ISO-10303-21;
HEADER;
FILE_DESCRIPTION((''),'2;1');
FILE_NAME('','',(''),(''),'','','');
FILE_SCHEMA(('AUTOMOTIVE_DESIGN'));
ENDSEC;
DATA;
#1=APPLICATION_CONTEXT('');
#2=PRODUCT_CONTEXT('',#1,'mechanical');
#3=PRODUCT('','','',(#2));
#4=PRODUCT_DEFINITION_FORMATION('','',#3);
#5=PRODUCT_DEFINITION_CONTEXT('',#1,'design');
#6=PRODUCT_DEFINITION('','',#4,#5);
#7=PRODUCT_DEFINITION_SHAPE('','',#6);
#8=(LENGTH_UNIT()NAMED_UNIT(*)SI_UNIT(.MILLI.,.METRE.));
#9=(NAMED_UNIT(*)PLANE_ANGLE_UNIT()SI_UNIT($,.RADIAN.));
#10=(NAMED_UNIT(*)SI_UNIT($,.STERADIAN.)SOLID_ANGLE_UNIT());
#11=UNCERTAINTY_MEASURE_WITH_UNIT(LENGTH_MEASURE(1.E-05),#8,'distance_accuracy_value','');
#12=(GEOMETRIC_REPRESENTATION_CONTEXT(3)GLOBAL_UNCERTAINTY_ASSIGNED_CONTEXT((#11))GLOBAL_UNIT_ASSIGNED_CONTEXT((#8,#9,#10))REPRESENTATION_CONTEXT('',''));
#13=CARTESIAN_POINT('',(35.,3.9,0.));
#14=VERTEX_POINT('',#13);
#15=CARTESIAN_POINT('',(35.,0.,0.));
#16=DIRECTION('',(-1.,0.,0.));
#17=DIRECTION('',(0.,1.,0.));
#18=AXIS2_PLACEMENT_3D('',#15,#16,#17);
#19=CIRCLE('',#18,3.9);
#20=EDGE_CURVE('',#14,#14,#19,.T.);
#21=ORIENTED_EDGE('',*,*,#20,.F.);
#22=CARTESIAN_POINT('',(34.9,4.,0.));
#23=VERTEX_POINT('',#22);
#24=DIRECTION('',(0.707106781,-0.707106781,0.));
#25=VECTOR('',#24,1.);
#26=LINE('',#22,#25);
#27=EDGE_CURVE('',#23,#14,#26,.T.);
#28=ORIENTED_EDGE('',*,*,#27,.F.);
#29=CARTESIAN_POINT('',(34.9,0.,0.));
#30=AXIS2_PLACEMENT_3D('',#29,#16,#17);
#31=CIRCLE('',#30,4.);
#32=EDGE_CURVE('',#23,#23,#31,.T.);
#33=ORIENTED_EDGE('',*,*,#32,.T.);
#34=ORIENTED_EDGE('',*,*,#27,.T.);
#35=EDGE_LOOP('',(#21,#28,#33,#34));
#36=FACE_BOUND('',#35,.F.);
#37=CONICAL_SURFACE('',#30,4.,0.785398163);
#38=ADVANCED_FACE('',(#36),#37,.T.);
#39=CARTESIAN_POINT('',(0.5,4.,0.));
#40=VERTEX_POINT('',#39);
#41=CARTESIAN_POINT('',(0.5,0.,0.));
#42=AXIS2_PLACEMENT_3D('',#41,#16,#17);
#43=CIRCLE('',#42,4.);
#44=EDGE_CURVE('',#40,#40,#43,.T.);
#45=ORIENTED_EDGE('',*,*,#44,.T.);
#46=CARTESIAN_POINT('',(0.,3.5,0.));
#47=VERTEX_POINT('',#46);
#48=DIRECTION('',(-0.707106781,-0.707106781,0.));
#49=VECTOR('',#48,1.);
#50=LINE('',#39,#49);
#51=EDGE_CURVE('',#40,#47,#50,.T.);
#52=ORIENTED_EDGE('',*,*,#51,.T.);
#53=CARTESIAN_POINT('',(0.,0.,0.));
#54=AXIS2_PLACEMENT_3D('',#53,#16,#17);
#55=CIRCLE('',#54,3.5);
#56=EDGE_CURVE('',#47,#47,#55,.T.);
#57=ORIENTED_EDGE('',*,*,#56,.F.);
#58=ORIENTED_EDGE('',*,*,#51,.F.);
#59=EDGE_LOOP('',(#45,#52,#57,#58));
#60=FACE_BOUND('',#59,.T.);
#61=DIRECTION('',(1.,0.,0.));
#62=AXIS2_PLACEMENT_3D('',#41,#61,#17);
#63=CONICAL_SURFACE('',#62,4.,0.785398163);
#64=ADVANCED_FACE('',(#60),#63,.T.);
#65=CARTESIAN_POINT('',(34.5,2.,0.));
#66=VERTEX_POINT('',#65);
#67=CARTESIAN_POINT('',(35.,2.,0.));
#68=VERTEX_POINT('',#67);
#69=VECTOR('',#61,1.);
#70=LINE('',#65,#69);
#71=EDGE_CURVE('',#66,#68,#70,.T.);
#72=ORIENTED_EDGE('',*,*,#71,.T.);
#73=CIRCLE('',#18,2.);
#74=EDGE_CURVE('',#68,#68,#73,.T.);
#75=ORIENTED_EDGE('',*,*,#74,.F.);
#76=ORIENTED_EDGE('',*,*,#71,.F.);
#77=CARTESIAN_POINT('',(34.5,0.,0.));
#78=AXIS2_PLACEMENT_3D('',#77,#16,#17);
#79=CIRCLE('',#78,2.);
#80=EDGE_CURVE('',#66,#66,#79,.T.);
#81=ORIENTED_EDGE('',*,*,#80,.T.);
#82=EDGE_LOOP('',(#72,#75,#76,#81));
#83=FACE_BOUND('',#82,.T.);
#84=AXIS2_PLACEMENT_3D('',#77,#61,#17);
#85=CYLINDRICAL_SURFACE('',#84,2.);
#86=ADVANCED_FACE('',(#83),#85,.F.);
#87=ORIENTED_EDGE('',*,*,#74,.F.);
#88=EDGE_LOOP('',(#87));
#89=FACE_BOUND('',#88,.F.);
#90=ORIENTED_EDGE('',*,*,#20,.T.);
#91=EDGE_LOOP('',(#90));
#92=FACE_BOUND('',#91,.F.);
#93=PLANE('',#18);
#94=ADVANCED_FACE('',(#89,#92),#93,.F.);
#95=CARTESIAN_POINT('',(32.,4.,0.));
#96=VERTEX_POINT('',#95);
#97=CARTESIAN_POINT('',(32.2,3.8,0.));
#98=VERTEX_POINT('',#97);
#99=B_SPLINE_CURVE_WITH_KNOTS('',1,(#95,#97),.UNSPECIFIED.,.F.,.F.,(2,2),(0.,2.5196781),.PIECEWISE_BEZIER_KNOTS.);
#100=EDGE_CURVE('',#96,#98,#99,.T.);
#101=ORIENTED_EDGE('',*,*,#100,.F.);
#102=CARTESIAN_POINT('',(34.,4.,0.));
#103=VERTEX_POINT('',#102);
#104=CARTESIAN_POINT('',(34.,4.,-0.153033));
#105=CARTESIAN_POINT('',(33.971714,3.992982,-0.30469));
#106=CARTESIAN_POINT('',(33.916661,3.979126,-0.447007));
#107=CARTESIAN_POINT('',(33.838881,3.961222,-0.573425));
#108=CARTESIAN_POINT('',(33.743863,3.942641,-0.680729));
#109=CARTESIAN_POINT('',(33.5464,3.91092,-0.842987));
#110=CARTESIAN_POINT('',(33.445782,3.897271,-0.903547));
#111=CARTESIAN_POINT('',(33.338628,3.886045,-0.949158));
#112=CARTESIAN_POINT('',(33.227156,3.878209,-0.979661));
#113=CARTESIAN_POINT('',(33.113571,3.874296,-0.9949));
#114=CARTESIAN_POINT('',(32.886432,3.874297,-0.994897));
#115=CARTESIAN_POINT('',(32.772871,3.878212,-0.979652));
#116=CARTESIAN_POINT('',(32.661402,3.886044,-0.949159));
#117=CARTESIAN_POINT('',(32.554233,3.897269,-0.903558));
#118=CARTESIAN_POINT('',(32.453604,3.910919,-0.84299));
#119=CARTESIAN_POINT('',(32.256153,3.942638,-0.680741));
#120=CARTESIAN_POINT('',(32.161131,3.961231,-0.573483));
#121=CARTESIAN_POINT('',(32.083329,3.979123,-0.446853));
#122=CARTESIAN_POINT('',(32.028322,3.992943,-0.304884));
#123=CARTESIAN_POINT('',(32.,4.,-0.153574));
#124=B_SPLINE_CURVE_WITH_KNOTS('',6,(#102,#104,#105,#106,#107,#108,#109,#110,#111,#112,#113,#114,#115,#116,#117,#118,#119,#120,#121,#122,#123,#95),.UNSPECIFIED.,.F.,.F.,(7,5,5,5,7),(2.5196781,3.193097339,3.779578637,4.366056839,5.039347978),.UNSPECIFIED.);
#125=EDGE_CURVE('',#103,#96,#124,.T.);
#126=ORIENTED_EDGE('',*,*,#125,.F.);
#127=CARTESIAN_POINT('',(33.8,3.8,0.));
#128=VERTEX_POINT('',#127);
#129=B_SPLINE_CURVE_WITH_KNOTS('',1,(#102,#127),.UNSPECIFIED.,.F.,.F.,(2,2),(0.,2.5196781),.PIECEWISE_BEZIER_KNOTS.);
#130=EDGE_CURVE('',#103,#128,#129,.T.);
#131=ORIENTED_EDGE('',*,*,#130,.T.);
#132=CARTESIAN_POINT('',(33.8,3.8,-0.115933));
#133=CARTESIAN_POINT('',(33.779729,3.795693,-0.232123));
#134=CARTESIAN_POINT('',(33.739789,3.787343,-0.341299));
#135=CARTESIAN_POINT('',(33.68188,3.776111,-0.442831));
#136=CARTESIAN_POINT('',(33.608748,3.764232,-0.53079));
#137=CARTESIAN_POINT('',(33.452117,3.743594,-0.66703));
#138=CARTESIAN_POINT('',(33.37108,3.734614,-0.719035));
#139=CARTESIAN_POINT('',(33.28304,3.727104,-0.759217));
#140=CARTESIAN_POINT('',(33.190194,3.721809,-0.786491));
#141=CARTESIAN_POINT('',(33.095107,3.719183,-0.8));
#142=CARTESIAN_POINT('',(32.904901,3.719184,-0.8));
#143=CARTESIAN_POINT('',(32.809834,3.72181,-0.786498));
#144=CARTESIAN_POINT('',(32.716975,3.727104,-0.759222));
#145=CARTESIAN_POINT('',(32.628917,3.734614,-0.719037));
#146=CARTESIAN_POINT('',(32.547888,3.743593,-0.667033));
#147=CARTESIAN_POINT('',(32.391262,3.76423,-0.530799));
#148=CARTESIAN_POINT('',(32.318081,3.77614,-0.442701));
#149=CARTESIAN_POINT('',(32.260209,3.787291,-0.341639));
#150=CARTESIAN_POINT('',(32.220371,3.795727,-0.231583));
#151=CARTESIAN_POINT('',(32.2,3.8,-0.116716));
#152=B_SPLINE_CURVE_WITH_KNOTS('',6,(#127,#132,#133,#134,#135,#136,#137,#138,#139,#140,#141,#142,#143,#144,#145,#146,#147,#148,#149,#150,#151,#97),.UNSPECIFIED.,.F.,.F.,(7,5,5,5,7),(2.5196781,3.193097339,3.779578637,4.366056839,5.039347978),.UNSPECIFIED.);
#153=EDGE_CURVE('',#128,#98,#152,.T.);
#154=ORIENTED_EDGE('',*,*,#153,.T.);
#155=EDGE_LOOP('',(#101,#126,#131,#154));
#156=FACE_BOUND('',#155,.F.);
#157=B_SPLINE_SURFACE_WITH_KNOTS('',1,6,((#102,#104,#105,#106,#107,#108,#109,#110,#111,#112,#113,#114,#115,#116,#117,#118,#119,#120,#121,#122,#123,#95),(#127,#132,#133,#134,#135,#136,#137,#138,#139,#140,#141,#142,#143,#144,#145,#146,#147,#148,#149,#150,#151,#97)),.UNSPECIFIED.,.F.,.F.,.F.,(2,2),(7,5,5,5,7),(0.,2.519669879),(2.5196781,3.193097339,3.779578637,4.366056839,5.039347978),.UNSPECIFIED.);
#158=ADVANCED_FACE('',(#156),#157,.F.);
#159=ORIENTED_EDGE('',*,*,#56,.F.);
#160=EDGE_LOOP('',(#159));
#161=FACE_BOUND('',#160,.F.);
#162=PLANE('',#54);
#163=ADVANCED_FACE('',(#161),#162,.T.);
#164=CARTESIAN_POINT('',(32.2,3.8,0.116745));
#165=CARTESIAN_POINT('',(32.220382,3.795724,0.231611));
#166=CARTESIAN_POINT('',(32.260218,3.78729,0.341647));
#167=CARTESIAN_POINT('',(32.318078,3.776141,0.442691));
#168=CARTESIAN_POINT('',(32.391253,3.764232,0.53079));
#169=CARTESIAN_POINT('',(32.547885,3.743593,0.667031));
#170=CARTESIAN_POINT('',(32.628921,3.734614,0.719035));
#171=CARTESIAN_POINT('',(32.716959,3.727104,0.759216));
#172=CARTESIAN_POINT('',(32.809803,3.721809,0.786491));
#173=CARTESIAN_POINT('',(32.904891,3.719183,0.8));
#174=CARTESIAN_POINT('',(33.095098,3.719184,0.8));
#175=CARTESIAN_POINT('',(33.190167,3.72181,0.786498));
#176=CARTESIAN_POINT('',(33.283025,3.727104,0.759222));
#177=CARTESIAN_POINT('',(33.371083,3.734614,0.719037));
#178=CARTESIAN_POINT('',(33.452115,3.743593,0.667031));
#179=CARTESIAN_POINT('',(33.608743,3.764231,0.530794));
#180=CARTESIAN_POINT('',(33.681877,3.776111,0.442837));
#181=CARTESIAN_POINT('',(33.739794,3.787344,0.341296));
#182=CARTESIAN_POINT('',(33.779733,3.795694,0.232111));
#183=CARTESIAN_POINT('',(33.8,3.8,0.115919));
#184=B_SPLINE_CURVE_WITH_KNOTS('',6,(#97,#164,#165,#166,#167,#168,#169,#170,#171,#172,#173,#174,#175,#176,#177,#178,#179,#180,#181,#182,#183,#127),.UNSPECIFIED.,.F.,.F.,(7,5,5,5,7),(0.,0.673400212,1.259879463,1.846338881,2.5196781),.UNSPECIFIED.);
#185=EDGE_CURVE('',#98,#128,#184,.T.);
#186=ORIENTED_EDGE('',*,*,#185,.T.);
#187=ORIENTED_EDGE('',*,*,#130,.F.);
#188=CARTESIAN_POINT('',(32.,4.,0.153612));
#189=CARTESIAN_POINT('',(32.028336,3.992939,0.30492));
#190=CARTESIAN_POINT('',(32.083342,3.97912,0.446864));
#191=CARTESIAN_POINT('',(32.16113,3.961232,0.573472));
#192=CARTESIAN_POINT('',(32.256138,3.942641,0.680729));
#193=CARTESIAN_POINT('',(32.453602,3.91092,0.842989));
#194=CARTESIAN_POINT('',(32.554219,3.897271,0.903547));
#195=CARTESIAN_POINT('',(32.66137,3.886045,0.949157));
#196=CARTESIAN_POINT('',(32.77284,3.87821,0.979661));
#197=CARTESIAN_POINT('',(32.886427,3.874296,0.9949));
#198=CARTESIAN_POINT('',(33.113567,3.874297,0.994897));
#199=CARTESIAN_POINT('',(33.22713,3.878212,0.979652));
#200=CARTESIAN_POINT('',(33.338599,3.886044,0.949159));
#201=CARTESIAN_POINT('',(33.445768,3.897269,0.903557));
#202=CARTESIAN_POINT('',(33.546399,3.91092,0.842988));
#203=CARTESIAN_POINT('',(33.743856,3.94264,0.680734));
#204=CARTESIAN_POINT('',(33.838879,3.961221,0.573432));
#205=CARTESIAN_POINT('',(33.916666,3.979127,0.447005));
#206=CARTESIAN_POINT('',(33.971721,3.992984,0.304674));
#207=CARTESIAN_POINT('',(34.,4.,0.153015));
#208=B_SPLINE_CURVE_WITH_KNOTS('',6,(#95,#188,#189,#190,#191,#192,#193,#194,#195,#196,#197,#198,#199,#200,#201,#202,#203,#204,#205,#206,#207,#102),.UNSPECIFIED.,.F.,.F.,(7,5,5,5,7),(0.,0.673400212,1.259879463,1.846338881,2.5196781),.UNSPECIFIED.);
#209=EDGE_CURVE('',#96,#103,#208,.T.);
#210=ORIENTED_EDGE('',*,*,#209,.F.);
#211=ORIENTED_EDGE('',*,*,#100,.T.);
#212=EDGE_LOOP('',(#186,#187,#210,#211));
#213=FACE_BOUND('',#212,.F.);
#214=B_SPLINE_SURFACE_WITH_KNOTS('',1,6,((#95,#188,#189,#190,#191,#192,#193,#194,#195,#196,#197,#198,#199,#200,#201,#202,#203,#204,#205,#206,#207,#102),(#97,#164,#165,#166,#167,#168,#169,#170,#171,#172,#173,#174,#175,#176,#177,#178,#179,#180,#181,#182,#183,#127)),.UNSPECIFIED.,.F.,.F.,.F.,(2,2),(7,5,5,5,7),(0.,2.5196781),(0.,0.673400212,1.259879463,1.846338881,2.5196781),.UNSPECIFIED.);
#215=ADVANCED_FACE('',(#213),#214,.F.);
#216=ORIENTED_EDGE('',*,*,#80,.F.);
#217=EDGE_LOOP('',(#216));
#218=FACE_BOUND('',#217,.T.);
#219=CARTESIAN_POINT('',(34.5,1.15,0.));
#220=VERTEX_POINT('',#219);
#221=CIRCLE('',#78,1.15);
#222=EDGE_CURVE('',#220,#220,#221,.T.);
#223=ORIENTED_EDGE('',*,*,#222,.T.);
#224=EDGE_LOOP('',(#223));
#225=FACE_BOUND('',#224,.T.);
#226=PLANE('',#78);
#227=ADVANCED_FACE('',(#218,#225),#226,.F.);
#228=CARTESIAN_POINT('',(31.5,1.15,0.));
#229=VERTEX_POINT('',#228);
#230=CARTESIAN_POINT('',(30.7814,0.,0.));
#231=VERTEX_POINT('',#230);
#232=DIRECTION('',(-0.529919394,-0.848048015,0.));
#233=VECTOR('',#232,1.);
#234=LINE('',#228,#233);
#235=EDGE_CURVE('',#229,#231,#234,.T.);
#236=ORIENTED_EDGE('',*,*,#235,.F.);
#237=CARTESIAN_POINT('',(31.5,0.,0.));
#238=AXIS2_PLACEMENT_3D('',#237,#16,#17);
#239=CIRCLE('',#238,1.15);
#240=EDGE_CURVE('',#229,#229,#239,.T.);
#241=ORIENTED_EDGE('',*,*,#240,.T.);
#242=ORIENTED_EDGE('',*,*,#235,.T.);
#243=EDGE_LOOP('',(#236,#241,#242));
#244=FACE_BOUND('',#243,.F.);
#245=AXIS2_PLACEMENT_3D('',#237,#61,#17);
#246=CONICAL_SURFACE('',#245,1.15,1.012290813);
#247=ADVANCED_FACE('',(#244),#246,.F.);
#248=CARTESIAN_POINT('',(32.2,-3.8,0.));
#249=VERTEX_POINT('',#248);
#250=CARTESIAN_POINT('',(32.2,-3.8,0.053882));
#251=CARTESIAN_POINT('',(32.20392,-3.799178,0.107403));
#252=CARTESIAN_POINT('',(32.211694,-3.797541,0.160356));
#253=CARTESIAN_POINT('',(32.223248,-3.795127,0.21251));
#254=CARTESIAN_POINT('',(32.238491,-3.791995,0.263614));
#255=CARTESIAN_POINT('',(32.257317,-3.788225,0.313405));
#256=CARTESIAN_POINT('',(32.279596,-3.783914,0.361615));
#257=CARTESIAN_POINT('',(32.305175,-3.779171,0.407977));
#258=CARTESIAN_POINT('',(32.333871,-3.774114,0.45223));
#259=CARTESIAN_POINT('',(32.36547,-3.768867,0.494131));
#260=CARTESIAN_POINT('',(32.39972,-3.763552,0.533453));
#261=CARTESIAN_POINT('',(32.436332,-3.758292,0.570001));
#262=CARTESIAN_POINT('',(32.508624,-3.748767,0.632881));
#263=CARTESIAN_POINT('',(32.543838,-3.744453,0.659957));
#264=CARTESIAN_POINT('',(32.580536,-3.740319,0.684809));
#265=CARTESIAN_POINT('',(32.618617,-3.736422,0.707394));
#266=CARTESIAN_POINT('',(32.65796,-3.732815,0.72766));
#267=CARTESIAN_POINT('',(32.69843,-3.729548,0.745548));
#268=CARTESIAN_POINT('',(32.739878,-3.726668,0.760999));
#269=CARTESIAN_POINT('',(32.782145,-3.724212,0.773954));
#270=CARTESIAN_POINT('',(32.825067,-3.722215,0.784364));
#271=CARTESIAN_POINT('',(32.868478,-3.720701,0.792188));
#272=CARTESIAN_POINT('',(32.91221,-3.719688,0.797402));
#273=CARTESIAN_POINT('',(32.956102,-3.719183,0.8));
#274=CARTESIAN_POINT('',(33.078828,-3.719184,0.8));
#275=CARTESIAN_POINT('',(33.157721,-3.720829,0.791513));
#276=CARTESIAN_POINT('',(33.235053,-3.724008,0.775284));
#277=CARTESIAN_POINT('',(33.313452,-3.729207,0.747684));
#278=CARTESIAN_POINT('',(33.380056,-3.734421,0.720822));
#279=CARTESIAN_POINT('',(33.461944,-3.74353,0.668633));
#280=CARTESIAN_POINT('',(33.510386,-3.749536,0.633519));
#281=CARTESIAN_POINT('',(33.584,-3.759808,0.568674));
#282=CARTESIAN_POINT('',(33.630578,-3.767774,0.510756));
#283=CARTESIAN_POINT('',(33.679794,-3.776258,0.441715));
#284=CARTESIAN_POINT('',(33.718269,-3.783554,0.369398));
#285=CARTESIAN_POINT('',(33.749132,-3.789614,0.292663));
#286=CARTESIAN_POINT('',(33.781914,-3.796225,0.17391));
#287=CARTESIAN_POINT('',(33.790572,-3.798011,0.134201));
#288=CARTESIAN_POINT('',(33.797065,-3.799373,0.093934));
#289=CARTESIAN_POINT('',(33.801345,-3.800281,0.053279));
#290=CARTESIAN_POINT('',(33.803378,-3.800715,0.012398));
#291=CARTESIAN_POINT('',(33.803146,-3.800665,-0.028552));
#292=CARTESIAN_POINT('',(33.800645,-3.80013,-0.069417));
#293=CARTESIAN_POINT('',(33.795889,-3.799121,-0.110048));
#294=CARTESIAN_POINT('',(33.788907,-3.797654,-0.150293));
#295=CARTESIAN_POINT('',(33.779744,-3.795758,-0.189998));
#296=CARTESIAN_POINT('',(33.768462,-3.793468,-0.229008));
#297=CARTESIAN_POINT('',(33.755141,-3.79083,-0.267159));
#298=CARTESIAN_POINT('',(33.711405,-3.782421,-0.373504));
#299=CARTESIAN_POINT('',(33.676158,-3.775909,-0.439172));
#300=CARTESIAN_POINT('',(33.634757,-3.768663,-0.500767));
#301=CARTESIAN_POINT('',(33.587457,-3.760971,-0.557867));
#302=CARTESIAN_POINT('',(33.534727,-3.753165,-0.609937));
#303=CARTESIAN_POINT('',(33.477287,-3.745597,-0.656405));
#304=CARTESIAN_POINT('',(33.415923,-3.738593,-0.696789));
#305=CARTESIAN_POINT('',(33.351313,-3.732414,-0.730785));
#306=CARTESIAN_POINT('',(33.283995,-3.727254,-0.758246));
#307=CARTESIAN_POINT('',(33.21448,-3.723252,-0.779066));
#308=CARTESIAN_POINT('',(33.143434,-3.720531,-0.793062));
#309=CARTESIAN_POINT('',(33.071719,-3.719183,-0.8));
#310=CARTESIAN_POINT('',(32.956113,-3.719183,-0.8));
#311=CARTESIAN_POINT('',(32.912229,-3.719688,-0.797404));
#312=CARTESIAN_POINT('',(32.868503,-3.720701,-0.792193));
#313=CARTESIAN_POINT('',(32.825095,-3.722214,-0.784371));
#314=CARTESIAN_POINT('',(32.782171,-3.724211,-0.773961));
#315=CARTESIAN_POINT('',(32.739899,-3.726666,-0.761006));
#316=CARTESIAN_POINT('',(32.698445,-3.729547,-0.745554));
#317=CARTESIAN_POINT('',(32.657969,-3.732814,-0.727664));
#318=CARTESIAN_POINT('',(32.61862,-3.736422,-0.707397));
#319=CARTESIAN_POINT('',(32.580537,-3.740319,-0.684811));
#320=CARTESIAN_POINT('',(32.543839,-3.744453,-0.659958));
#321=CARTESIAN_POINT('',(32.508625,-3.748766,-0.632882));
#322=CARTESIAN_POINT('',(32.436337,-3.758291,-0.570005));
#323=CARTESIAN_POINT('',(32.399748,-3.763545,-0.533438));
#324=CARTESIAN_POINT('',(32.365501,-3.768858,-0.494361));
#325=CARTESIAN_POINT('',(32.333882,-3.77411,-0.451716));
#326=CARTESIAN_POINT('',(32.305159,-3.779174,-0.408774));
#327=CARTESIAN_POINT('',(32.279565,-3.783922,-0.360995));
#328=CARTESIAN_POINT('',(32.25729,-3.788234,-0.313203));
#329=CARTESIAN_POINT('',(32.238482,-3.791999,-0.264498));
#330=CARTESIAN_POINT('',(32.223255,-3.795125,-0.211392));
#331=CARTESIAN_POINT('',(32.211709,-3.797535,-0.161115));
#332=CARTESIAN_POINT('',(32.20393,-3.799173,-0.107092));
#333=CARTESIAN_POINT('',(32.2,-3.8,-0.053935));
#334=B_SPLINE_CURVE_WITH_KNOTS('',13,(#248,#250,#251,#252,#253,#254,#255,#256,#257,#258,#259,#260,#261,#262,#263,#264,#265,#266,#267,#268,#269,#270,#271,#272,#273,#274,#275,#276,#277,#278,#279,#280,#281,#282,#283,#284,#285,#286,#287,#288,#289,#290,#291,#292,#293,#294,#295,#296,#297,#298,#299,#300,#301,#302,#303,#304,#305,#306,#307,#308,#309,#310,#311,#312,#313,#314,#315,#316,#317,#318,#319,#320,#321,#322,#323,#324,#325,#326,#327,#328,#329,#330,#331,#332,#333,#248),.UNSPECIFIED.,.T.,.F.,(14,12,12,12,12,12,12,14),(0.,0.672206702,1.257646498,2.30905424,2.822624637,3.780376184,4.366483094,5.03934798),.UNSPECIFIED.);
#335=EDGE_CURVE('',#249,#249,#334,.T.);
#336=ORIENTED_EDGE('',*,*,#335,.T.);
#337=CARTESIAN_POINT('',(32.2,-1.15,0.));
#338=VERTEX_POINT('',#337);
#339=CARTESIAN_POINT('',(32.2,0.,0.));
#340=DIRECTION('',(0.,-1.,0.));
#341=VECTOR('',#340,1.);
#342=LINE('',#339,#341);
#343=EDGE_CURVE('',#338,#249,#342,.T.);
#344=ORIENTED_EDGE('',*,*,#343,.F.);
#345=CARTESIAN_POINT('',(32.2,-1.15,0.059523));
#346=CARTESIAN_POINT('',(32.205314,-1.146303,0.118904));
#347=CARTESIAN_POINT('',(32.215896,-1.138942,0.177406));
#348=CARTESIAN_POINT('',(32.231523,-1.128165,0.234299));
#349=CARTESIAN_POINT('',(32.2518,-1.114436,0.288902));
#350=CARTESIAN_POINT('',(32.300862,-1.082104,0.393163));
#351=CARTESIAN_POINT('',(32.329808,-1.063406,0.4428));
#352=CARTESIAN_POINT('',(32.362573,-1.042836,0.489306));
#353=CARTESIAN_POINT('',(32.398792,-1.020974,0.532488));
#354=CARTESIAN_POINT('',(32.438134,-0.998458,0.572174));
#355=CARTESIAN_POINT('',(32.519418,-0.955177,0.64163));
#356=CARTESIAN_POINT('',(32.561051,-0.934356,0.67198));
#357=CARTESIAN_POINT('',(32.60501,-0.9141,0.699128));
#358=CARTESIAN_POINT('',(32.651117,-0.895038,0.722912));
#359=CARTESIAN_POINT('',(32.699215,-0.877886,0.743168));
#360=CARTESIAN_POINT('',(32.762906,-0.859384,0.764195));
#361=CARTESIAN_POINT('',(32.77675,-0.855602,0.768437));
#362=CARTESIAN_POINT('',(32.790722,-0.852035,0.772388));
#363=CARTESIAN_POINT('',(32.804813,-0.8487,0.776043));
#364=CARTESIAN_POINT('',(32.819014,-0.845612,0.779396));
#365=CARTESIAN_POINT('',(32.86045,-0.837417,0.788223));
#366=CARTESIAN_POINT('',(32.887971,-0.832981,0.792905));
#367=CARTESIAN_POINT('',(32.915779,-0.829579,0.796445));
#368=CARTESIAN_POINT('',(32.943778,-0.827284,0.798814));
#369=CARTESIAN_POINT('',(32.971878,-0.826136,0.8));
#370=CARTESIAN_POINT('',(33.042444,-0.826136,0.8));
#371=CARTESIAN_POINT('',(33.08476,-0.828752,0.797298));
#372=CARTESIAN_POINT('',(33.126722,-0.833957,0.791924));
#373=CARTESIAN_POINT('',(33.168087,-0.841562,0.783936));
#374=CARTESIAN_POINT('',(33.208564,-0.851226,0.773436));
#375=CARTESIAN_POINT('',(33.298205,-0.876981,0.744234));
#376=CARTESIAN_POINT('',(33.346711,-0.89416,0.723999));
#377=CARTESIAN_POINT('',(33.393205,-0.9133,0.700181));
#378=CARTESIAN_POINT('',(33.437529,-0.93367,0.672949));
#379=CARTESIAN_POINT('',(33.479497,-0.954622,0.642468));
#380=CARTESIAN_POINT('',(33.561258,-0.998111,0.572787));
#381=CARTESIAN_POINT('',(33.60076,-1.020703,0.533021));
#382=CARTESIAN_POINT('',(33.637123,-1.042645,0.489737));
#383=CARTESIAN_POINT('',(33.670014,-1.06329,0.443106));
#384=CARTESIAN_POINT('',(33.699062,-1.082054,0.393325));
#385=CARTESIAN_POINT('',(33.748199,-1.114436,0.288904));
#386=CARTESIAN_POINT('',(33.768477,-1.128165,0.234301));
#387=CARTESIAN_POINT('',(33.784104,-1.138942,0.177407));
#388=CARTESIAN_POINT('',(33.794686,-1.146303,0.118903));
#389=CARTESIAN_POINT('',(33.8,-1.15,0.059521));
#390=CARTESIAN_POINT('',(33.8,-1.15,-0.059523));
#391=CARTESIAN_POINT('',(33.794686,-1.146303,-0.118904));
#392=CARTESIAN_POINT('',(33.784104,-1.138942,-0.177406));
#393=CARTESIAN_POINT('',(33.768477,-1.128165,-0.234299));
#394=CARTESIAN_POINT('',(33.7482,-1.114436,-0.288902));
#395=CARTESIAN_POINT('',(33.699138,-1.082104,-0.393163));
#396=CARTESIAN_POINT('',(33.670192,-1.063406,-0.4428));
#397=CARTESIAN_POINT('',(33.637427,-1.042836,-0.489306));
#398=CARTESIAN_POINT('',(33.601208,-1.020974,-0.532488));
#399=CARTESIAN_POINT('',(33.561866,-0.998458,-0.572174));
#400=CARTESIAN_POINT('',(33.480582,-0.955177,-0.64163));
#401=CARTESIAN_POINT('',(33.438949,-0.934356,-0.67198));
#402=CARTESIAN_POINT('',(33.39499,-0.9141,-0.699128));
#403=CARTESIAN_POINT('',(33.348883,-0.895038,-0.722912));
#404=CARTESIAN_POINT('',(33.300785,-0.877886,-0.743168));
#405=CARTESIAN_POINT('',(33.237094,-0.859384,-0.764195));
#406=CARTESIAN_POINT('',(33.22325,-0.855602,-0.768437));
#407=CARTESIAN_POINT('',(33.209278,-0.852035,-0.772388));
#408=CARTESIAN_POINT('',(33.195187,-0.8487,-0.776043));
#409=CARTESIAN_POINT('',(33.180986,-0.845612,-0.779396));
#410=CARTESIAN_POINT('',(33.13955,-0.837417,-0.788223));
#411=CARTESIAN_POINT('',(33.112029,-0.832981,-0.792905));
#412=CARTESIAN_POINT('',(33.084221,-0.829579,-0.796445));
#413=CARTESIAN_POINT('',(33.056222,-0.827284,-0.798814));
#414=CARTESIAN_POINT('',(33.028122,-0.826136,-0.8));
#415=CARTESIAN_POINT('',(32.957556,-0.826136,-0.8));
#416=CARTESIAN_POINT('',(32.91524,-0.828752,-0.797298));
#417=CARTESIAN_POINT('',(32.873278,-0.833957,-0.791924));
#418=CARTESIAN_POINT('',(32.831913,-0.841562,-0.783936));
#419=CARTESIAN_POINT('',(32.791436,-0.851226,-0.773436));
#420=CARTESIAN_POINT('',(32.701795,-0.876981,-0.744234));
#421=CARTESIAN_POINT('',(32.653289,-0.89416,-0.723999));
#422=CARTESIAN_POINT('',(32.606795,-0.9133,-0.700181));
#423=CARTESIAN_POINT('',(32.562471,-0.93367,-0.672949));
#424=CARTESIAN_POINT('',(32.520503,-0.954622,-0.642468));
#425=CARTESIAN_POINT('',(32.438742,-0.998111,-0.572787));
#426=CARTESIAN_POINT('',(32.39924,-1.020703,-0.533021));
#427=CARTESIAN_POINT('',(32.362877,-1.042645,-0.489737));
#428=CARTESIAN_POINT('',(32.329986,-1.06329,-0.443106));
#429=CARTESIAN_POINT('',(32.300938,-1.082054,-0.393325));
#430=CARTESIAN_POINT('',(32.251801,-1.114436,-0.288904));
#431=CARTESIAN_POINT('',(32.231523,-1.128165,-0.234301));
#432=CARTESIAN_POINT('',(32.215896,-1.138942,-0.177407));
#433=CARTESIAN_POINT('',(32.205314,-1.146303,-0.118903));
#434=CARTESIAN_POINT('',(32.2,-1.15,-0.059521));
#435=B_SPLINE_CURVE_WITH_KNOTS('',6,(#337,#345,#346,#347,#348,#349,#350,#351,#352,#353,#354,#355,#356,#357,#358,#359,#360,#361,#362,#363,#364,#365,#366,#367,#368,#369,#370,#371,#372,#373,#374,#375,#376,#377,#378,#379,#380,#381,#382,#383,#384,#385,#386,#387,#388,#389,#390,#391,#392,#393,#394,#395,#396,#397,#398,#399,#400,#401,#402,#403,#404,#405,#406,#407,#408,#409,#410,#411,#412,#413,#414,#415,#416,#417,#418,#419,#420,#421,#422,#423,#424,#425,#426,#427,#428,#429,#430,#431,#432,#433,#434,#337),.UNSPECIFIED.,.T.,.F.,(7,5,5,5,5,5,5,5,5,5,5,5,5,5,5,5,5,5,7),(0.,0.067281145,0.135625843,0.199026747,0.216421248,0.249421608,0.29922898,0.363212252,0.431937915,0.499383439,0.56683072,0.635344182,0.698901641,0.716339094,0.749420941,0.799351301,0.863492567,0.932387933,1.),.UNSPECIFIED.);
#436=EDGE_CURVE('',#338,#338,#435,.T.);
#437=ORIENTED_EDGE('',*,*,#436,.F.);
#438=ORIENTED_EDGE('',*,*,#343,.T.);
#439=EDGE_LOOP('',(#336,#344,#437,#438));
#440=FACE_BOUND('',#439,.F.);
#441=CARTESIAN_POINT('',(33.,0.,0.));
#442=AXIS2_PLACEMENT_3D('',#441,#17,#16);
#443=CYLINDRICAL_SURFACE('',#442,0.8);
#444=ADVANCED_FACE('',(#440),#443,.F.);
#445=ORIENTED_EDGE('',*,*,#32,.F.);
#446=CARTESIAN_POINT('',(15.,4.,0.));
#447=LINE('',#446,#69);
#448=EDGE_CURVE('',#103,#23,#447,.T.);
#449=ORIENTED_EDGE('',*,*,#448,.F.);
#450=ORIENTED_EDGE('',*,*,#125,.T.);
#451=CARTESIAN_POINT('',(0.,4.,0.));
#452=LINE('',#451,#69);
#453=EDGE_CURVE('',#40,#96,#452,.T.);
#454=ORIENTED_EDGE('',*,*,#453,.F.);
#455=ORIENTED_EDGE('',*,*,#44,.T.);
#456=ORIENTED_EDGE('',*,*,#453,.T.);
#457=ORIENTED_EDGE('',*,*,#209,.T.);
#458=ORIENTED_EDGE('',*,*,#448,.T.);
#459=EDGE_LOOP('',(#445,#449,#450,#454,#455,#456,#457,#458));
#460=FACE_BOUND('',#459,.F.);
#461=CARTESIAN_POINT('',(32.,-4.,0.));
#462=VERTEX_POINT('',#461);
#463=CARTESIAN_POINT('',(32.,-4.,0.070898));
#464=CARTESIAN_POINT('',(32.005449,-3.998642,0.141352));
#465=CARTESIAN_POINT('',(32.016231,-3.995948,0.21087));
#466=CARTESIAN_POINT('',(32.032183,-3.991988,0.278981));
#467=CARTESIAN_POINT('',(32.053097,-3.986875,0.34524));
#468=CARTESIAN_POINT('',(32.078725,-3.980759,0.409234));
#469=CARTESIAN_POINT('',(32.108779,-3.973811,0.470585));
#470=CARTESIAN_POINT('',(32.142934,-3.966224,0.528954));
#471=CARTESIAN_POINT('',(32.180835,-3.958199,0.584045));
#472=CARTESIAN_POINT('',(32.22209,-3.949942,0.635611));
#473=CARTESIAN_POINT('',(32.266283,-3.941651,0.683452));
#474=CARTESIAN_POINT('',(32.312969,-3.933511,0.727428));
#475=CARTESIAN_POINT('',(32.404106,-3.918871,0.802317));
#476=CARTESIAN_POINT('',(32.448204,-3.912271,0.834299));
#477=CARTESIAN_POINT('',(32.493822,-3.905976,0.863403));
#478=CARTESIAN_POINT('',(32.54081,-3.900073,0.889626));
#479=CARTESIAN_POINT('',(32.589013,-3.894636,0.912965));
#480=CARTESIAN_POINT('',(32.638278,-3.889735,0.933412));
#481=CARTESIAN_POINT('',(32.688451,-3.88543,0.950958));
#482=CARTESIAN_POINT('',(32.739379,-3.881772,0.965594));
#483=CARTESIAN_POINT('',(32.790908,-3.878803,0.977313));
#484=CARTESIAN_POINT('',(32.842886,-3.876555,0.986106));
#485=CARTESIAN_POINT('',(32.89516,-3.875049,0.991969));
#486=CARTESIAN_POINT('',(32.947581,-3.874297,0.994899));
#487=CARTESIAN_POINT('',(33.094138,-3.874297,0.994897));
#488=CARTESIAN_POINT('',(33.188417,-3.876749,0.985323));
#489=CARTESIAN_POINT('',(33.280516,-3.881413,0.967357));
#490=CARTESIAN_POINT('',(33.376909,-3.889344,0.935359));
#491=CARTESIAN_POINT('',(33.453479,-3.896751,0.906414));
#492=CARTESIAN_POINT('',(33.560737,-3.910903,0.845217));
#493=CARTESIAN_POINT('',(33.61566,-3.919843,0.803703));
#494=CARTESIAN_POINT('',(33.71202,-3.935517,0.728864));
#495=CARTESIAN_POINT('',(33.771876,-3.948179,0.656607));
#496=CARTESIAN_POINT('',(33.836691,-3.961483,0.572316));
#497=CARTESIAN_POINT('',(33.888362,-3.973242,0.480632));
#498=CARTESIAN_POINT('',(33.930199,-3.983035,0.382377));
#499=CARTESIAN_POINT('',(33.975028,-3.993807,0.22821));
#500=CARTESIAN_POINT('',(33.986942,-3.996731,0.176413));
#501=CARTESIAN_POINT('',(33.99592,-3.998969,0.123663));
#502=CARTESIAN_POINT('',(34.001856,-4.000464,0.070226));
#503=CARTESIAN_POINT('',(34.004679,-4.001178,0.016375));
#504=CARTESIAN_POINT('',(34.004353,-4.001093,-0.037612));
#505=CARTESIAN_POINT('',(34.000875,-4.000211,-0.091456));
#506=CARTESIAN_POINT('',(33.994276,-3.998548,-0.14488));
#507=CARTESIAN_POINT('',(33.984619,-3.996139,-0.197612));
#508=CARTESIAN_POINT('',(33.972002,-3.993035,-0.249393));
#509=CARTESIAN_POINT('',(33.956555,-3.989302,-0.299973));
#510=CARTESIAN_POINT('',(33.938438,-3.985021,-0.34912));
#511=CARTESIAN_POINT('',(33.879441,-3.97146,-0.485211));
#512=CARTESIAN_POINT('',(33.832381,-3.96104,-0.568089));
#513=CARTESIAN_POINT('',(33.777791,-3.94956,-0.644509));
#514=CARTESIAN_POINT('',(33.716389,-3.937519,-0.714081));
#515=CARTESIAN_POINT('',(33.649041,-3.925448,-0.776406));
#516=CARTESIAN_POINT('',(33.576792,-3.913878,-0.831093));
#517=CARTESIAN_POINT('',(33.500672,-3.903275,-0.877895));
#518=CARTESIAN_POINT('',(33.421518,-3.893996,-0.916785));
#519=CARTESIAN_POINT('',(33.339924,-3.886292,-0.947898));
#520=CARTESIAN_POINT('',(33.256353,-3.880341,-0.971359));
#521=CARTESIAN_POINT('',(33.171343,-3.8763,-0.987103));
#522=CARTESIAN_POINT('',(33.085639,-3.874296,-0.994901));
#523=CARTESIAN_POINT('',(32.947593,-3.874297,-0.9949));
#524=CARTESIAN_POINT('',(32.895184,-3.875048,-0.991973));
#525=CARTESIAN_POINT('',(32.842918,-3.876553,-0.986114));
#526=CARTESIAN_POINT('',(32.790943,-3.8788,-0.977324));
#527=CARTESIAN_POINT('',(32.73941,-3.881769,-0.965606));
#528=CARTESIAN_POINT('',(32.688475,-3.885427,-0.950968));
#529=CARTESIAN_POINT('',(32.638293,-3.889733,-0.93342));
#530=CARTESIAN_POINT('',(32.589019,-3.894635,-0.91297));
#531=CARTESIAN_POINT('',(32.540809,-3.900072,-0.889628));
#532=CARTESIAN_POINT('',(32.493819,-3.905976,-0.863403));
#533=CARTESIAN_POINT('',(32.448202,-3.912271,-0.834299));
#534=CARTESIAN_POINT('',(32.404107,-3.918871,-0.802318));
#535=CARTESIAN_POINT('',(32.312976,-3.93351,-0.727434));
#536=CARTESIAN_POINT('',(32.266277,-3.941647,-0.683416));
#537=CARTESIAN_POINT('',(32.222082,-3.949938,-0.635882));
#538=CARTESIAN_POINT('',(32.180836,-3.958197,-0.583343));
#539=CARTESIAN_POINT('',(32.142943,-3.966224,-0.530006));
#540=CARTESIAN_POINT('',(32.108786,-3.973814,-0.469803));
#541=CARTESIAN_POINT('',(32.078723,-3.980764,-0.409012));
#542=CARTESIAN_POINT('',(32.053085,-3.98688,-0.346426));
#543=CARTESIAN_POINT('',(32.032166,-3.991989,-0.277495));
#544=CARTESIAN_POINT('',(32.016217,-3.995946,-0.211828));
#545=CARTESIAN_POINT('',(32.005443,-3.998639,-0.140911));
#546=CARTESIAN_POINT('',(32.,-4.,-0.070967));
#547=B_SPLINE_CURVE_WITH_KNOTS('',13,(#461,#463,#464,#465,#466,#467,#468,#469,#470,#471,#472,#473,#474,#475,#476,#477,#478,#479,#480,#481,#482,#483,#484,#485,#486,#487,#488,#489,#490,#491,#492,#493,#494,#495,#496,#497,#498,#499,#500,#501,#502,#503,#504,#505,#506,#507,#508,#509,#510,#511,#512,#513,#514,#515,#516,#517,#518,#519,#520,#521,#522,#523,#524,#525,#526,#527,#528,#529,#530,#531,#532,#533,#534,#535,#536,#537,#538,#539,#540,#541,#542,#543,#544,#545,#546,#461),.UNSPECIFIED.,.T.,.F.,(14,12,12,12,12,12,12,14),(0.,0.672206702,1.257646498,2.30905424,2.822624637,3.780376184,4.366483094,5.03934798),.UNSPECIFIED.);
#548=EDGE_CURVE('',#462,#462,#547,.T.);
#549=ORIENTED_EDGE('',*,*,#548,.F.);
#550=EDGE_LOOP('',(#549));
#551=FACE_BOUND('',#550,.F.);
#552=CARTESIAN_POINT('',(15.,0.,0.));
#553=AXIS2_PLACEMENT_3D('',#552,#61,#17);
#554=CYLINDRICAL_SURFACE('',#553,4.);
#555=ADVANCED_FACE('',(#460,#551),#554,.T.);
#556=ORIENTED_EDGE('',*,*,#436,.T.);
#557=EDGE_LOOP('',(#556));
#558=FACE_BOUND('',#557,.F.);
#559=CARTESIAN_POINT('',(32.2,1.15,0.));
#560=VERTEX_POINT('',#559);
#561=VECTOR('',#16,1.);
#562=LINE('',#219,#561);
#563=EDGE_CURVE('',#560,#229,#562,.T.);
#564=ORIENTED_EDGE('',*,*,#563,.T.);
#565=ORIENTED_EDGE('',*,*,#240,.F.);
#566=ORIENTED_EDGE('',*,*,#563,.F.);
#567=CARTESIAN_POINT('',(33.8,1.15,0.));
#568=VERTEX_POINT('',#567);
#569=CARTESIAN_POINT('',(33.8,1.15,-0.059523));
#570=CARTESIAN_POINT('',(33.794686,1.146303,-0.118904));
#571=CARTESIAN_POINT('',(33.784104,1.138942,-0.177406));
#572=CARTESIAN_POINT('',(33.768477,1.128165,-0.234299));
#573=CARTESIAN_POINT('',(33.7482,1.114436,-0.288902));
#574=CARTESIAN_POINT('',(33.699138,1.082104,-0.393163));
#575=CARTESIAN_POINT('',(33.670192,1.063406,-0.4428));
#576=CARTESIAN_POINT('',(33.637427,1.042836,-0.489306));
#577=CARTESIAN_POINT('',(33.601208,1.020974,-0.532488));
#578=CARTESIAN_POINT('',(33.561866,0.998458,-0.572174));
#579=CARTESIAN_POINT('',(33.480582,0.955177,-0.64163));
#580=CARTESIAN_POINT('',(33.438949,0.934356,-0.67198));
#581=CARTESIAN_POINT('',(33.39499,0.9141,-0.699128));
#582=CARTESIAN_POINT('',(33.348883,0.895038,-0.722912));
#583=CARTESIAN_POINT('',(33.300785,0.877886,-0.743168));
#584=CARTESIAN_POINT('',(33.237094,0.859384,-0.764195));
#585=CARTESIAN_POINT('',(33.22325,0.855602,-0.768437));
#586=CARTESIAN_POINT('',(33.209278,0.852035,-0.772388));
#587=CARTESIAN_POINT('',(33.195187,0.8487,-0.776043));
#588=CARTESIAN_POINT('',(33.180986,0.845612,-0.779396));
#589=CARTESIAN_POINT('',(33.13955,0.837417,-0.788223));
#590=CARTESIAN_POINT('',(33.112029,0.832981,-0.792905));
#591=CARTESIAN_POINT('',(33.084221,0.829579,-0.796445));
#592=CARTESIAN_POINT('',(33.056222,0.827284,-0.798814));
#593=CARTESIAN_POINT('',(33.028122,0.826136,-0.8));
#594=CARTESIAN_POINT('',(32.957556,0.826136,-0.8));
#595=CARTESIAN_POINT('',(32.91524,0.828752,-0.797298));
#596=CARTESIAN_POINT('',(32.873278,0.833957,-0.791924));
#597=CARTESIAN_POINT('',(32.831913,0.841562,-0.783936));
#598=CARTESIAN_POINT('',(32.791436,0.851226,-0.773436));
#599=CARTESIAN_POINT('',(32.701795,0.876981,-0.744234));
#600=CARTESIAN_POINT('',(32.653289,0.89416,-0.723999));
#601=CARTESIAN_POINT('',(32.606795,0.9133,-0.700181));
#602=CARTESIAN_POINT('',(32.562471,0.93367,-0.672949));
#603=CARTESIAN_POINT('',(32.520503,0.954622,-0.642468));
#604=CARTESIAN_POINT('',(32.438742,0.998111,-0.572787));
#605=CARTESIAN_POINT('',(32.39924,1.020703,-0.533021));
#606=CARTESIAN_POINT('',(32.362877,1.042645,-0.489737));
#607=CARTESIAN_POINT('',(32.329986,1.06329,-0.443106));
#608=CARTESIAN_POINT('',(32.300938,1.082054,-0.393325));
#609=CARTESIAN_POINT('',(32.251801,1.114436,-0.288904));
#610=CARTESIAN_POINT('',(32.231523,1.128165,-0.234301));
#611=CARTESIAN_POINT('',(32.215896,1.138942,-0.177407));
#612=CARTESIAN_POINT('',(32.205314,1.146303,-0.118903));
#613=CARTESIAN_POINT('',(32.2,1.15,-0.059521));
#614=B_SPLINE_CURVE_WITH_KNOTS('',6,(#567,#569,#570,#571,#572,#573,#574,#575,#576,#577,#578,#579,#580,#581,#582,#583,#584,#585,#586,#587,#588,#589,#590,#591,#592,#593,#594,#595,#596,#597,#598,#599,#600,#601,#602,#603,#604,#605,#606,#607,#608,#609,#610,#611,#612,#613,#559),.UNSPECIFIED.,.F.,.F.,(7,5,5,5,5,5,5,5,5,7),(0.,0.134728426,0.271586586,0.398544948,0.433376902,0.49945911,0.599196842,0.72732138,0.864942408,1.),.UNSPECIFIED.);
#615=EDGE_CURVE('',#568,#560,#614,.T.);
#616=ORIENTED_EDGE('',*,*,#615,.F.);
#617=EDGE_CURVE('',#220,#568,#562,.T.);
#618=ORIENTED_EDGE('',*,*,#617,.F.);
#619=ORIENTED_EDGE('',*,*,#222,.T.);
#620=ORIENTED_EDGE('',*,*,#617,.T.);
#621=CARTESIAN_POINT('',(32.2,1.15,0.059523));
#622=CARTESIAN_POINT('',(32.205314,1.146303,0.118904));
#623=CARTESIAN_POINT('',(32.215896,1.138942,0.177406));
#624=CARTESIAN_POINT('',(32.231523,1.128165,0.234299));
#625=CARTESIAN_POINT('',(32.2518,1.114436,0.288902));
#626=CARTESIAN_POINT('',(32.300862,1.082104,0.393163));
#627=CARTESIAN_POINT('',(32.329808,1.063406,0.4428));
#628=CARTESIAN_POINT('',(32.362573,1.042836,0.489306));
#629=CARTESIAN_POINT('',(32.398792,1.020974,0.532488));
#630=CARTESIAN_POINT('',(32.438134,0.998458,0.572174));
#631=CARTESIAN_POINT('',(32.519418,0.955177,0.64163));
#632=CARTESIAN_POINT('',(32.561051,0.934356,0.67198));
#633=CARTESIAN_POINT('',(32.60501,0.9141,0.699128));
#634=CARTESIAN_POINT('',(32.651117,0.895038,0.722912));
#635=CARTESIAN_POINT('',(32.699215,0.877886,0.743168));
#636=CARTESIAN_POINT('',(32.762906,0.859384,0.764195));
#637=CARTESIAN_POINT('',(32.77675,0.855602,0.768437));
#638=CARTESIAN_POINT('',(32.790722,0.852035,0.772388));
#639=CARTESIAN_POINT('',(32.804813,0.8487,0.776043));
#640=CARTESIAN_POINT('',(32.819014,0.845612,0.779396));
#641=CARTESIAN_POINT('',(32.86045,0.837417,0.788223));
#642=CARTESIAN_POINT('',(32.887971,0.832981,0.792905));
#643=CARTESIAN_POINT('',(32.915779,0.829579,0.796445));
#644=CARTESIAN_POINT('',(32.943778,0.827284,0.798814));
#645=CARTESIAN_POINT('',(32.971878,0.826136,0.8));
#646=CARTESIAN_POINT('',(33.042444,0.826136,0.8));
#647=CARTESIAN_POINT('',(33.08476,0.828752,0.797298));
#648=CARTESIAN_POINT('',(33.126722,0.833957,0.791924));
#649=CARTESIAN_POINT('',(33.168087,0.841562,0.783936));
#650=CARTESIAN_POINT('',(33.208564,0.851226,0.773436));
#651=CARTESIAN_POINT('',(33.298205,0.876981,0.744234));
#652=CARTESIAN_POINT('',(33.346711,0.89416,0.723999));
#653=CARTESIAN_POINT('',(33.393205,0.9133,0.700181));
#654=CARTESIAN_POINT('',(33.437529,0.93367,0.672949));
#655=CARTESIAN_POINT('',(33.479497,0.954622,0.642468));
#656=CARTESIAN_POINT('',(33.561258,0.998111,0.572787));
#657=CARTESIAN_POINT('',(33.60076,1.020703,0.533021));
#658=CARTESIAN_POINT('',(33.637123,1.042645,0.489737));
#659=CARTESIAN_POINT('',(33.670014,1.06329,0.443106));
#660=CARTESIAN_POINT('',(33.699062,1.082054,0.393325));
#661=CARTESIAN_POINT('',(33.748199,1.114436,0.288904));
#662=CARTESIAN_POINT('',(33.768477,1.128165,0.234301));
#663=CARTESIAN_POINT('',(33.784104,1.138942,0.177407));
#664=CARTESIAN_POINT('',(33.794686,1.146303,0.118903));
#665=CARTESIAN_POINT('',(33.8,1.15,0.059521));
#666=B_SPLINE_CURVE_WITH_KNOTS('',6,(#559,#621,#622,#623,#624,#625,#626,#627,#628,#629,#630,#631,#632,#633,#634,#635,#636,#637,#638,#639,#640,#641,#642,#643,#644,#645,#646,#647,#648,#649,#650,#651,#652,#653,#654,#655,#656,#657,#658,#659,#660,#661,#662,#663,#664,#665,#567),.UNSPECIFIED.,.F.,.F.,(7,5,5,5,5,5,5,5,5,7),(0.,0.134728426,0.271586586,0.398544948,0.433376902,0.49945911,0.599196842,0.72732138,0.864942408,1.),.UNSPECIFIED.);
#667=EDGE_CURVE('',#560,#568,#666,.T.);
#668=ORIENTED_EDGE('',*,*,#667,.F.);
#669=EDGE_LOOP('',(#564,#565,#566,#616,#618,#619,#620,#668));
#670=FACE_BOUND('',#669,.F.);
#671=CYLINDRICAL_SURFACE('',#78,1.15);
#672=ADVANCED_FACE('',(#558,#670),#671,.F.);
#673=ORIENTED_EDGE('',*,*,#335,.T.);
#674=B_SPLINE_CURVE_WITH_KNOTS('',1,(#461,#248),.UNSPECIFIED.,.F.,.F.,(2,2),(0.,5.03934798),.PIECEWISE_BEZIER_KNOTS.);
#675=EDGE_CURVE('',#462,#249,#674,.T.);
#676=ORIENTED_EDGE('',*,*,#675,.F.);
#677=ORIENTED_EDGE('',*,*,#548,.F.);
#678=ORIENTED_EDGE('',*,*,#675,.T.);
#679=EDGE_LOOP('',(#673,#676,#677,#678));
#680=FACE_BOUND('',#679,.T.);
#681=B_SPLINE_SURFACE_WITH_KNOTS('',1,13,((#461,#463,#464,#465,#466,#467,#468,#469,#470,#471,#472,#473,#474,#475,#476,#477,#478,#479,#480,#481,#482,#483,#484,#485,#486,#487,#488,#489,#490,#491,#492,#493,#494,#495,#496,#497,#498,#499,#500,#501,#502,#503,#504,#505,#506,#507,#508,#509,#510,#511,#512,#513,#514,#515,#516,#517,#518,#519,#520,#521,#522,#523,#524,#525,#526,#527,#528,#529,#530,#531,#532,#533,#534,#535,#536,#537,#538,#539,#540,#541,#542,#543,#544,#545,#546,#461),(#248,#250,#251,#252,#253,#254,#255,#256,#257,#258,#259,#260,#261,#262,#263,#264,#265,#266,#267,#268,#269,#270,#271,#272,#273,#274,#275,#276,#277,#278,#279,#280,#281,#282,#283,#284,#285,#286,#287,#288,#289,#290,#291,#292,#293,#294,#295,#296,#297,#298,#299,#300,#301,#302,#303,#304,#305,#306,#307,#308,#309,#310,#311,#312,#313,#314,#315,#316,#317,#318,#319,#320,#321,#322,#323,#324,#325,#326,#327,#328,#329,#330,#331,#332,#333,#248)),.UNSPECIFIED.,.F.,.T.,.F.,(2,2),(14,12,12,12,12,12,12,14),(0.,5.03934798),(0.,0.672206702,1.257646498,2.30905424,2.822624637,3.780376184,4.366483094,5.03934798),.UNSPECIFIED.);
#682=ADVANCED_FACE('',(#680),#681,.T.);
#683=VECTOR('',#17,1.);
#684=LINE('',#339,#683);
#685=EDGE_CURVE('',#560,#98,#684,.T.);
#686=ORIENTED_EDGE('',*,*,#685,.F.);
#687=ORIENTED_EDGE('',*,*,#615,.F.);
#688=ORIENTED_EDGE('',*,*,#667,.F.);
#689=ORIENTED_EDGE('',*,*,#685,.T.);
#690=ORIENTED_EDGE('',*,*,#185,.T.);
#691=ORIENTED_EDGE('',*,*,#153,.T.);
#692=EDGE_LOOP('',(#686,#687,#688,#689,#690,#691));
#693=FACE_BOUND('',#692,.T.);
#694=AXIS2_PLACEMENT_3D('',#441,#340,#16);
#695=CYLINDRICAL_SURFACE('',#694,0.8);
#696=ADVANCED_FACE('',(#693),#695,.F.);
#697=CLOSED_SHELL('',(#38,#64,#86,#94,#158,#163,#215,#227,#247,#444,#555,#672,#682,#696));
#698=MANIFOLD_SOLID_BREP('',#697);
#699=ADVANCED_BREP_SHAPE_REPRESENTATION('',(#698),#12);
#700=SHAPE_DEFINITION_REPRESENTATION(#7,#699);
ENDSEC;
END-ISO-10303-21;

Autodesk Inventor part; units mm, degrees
ref_plane "YZ Plane" through (0, 0, 0) normal (1, 0, 0) x (0, 1, 0)
ref_plane "XZ Plane" through (0, 0, 0) normal (0, 1, 0) x (-1, 0, 0)
ref_plane "XY Plane" through (0, 0, 0) normal (0, 0, 1) x (1, 0, 0)
sketch "Sketch1" plane through (0, 0, 0) normal (0, 0, 1) x (1, 0, 0)
  line L0 (0, 0) -> (0, 3)
  line L1 (0, 3) -> (15, 3)
  line L2 (15, 3) -> (15, 4)
  line L3 (15, 4) -> (35, 4)
  line L4 (35, 4) -> (35, 0)
  line L5 (35, 0) -> (0, 0)
  line L6 (34.5, 0) -> (34.5, 2)
  line L7 (34.5, 2) -> (35, 2)
  line L8 (34.5, 1.15) -> (31.5, 1.15)
  line L9 (31.5, 1.15) -> (30.7814, 0)
  line L10 (30.7814, 0) -> (34.5, 0)
  line L11 (15, 4) -> (0, 4)
  line L12 (0, 4) -> (0, 3)
  point P0 (0, 1.5)
  point P1 (35, 2)
  dimension "d0" = 3
  dimension "d1" = 4
  dimension "d2" = 15
  dimension "d3" = 35
  dimension "d4" = 2
  dimension "d5" = 0.5
  dimension "d27" = 1.15
  dimension "d28" = 58
  dimension "d29" = 3
revolve "Revolution1" add sketch "Sketch1" angle 360 about axis through (35, 0, 0) along (-1, 0, 0) contours L0 L1 L2 L3 L4 L7 L6 L8 L9 L5 | L12 L11 L2 L1
chamfer "Chamfer1" [suppressed]
chamfer "Chamfer2" distance 0.1 angle 45 1 edges at (35, -4, 0)
sketch "Sketch2" plane through (0, 0, 0) normal (0, 1, 0) x (-1, 0, 0)
  circle A0 centre (-33, 0) radius 0.8
  line L0 (-35, -2) -> (-35, 2) projected
  point P0 (0, 0)
  dimension "d13" = 1.6
  dimension "d14" = 2
extrude "Extrusion1" cut sketch "Sketch2" along normal mid plane 10
chamfer "Chamfer4" distance 0.2 angle 45 3 edges at (33, 3.9192, 0.8) (33.0001, 3.9192, -0.8) (33.8, -4, 0.001)
thread "Thread2" size "M1.6x0.35" class "6H" standard "ANSI Metric M Profile" length 5
thread "Thread3" size "M1.6x0.35" class "6H" standard "ANSI Metric M Profile" length 3
chamfer "Chamfer5" distance 0.5 angle 45 1 edges at (0, -4, 0)
properties part number "Sp mu SM holder"
